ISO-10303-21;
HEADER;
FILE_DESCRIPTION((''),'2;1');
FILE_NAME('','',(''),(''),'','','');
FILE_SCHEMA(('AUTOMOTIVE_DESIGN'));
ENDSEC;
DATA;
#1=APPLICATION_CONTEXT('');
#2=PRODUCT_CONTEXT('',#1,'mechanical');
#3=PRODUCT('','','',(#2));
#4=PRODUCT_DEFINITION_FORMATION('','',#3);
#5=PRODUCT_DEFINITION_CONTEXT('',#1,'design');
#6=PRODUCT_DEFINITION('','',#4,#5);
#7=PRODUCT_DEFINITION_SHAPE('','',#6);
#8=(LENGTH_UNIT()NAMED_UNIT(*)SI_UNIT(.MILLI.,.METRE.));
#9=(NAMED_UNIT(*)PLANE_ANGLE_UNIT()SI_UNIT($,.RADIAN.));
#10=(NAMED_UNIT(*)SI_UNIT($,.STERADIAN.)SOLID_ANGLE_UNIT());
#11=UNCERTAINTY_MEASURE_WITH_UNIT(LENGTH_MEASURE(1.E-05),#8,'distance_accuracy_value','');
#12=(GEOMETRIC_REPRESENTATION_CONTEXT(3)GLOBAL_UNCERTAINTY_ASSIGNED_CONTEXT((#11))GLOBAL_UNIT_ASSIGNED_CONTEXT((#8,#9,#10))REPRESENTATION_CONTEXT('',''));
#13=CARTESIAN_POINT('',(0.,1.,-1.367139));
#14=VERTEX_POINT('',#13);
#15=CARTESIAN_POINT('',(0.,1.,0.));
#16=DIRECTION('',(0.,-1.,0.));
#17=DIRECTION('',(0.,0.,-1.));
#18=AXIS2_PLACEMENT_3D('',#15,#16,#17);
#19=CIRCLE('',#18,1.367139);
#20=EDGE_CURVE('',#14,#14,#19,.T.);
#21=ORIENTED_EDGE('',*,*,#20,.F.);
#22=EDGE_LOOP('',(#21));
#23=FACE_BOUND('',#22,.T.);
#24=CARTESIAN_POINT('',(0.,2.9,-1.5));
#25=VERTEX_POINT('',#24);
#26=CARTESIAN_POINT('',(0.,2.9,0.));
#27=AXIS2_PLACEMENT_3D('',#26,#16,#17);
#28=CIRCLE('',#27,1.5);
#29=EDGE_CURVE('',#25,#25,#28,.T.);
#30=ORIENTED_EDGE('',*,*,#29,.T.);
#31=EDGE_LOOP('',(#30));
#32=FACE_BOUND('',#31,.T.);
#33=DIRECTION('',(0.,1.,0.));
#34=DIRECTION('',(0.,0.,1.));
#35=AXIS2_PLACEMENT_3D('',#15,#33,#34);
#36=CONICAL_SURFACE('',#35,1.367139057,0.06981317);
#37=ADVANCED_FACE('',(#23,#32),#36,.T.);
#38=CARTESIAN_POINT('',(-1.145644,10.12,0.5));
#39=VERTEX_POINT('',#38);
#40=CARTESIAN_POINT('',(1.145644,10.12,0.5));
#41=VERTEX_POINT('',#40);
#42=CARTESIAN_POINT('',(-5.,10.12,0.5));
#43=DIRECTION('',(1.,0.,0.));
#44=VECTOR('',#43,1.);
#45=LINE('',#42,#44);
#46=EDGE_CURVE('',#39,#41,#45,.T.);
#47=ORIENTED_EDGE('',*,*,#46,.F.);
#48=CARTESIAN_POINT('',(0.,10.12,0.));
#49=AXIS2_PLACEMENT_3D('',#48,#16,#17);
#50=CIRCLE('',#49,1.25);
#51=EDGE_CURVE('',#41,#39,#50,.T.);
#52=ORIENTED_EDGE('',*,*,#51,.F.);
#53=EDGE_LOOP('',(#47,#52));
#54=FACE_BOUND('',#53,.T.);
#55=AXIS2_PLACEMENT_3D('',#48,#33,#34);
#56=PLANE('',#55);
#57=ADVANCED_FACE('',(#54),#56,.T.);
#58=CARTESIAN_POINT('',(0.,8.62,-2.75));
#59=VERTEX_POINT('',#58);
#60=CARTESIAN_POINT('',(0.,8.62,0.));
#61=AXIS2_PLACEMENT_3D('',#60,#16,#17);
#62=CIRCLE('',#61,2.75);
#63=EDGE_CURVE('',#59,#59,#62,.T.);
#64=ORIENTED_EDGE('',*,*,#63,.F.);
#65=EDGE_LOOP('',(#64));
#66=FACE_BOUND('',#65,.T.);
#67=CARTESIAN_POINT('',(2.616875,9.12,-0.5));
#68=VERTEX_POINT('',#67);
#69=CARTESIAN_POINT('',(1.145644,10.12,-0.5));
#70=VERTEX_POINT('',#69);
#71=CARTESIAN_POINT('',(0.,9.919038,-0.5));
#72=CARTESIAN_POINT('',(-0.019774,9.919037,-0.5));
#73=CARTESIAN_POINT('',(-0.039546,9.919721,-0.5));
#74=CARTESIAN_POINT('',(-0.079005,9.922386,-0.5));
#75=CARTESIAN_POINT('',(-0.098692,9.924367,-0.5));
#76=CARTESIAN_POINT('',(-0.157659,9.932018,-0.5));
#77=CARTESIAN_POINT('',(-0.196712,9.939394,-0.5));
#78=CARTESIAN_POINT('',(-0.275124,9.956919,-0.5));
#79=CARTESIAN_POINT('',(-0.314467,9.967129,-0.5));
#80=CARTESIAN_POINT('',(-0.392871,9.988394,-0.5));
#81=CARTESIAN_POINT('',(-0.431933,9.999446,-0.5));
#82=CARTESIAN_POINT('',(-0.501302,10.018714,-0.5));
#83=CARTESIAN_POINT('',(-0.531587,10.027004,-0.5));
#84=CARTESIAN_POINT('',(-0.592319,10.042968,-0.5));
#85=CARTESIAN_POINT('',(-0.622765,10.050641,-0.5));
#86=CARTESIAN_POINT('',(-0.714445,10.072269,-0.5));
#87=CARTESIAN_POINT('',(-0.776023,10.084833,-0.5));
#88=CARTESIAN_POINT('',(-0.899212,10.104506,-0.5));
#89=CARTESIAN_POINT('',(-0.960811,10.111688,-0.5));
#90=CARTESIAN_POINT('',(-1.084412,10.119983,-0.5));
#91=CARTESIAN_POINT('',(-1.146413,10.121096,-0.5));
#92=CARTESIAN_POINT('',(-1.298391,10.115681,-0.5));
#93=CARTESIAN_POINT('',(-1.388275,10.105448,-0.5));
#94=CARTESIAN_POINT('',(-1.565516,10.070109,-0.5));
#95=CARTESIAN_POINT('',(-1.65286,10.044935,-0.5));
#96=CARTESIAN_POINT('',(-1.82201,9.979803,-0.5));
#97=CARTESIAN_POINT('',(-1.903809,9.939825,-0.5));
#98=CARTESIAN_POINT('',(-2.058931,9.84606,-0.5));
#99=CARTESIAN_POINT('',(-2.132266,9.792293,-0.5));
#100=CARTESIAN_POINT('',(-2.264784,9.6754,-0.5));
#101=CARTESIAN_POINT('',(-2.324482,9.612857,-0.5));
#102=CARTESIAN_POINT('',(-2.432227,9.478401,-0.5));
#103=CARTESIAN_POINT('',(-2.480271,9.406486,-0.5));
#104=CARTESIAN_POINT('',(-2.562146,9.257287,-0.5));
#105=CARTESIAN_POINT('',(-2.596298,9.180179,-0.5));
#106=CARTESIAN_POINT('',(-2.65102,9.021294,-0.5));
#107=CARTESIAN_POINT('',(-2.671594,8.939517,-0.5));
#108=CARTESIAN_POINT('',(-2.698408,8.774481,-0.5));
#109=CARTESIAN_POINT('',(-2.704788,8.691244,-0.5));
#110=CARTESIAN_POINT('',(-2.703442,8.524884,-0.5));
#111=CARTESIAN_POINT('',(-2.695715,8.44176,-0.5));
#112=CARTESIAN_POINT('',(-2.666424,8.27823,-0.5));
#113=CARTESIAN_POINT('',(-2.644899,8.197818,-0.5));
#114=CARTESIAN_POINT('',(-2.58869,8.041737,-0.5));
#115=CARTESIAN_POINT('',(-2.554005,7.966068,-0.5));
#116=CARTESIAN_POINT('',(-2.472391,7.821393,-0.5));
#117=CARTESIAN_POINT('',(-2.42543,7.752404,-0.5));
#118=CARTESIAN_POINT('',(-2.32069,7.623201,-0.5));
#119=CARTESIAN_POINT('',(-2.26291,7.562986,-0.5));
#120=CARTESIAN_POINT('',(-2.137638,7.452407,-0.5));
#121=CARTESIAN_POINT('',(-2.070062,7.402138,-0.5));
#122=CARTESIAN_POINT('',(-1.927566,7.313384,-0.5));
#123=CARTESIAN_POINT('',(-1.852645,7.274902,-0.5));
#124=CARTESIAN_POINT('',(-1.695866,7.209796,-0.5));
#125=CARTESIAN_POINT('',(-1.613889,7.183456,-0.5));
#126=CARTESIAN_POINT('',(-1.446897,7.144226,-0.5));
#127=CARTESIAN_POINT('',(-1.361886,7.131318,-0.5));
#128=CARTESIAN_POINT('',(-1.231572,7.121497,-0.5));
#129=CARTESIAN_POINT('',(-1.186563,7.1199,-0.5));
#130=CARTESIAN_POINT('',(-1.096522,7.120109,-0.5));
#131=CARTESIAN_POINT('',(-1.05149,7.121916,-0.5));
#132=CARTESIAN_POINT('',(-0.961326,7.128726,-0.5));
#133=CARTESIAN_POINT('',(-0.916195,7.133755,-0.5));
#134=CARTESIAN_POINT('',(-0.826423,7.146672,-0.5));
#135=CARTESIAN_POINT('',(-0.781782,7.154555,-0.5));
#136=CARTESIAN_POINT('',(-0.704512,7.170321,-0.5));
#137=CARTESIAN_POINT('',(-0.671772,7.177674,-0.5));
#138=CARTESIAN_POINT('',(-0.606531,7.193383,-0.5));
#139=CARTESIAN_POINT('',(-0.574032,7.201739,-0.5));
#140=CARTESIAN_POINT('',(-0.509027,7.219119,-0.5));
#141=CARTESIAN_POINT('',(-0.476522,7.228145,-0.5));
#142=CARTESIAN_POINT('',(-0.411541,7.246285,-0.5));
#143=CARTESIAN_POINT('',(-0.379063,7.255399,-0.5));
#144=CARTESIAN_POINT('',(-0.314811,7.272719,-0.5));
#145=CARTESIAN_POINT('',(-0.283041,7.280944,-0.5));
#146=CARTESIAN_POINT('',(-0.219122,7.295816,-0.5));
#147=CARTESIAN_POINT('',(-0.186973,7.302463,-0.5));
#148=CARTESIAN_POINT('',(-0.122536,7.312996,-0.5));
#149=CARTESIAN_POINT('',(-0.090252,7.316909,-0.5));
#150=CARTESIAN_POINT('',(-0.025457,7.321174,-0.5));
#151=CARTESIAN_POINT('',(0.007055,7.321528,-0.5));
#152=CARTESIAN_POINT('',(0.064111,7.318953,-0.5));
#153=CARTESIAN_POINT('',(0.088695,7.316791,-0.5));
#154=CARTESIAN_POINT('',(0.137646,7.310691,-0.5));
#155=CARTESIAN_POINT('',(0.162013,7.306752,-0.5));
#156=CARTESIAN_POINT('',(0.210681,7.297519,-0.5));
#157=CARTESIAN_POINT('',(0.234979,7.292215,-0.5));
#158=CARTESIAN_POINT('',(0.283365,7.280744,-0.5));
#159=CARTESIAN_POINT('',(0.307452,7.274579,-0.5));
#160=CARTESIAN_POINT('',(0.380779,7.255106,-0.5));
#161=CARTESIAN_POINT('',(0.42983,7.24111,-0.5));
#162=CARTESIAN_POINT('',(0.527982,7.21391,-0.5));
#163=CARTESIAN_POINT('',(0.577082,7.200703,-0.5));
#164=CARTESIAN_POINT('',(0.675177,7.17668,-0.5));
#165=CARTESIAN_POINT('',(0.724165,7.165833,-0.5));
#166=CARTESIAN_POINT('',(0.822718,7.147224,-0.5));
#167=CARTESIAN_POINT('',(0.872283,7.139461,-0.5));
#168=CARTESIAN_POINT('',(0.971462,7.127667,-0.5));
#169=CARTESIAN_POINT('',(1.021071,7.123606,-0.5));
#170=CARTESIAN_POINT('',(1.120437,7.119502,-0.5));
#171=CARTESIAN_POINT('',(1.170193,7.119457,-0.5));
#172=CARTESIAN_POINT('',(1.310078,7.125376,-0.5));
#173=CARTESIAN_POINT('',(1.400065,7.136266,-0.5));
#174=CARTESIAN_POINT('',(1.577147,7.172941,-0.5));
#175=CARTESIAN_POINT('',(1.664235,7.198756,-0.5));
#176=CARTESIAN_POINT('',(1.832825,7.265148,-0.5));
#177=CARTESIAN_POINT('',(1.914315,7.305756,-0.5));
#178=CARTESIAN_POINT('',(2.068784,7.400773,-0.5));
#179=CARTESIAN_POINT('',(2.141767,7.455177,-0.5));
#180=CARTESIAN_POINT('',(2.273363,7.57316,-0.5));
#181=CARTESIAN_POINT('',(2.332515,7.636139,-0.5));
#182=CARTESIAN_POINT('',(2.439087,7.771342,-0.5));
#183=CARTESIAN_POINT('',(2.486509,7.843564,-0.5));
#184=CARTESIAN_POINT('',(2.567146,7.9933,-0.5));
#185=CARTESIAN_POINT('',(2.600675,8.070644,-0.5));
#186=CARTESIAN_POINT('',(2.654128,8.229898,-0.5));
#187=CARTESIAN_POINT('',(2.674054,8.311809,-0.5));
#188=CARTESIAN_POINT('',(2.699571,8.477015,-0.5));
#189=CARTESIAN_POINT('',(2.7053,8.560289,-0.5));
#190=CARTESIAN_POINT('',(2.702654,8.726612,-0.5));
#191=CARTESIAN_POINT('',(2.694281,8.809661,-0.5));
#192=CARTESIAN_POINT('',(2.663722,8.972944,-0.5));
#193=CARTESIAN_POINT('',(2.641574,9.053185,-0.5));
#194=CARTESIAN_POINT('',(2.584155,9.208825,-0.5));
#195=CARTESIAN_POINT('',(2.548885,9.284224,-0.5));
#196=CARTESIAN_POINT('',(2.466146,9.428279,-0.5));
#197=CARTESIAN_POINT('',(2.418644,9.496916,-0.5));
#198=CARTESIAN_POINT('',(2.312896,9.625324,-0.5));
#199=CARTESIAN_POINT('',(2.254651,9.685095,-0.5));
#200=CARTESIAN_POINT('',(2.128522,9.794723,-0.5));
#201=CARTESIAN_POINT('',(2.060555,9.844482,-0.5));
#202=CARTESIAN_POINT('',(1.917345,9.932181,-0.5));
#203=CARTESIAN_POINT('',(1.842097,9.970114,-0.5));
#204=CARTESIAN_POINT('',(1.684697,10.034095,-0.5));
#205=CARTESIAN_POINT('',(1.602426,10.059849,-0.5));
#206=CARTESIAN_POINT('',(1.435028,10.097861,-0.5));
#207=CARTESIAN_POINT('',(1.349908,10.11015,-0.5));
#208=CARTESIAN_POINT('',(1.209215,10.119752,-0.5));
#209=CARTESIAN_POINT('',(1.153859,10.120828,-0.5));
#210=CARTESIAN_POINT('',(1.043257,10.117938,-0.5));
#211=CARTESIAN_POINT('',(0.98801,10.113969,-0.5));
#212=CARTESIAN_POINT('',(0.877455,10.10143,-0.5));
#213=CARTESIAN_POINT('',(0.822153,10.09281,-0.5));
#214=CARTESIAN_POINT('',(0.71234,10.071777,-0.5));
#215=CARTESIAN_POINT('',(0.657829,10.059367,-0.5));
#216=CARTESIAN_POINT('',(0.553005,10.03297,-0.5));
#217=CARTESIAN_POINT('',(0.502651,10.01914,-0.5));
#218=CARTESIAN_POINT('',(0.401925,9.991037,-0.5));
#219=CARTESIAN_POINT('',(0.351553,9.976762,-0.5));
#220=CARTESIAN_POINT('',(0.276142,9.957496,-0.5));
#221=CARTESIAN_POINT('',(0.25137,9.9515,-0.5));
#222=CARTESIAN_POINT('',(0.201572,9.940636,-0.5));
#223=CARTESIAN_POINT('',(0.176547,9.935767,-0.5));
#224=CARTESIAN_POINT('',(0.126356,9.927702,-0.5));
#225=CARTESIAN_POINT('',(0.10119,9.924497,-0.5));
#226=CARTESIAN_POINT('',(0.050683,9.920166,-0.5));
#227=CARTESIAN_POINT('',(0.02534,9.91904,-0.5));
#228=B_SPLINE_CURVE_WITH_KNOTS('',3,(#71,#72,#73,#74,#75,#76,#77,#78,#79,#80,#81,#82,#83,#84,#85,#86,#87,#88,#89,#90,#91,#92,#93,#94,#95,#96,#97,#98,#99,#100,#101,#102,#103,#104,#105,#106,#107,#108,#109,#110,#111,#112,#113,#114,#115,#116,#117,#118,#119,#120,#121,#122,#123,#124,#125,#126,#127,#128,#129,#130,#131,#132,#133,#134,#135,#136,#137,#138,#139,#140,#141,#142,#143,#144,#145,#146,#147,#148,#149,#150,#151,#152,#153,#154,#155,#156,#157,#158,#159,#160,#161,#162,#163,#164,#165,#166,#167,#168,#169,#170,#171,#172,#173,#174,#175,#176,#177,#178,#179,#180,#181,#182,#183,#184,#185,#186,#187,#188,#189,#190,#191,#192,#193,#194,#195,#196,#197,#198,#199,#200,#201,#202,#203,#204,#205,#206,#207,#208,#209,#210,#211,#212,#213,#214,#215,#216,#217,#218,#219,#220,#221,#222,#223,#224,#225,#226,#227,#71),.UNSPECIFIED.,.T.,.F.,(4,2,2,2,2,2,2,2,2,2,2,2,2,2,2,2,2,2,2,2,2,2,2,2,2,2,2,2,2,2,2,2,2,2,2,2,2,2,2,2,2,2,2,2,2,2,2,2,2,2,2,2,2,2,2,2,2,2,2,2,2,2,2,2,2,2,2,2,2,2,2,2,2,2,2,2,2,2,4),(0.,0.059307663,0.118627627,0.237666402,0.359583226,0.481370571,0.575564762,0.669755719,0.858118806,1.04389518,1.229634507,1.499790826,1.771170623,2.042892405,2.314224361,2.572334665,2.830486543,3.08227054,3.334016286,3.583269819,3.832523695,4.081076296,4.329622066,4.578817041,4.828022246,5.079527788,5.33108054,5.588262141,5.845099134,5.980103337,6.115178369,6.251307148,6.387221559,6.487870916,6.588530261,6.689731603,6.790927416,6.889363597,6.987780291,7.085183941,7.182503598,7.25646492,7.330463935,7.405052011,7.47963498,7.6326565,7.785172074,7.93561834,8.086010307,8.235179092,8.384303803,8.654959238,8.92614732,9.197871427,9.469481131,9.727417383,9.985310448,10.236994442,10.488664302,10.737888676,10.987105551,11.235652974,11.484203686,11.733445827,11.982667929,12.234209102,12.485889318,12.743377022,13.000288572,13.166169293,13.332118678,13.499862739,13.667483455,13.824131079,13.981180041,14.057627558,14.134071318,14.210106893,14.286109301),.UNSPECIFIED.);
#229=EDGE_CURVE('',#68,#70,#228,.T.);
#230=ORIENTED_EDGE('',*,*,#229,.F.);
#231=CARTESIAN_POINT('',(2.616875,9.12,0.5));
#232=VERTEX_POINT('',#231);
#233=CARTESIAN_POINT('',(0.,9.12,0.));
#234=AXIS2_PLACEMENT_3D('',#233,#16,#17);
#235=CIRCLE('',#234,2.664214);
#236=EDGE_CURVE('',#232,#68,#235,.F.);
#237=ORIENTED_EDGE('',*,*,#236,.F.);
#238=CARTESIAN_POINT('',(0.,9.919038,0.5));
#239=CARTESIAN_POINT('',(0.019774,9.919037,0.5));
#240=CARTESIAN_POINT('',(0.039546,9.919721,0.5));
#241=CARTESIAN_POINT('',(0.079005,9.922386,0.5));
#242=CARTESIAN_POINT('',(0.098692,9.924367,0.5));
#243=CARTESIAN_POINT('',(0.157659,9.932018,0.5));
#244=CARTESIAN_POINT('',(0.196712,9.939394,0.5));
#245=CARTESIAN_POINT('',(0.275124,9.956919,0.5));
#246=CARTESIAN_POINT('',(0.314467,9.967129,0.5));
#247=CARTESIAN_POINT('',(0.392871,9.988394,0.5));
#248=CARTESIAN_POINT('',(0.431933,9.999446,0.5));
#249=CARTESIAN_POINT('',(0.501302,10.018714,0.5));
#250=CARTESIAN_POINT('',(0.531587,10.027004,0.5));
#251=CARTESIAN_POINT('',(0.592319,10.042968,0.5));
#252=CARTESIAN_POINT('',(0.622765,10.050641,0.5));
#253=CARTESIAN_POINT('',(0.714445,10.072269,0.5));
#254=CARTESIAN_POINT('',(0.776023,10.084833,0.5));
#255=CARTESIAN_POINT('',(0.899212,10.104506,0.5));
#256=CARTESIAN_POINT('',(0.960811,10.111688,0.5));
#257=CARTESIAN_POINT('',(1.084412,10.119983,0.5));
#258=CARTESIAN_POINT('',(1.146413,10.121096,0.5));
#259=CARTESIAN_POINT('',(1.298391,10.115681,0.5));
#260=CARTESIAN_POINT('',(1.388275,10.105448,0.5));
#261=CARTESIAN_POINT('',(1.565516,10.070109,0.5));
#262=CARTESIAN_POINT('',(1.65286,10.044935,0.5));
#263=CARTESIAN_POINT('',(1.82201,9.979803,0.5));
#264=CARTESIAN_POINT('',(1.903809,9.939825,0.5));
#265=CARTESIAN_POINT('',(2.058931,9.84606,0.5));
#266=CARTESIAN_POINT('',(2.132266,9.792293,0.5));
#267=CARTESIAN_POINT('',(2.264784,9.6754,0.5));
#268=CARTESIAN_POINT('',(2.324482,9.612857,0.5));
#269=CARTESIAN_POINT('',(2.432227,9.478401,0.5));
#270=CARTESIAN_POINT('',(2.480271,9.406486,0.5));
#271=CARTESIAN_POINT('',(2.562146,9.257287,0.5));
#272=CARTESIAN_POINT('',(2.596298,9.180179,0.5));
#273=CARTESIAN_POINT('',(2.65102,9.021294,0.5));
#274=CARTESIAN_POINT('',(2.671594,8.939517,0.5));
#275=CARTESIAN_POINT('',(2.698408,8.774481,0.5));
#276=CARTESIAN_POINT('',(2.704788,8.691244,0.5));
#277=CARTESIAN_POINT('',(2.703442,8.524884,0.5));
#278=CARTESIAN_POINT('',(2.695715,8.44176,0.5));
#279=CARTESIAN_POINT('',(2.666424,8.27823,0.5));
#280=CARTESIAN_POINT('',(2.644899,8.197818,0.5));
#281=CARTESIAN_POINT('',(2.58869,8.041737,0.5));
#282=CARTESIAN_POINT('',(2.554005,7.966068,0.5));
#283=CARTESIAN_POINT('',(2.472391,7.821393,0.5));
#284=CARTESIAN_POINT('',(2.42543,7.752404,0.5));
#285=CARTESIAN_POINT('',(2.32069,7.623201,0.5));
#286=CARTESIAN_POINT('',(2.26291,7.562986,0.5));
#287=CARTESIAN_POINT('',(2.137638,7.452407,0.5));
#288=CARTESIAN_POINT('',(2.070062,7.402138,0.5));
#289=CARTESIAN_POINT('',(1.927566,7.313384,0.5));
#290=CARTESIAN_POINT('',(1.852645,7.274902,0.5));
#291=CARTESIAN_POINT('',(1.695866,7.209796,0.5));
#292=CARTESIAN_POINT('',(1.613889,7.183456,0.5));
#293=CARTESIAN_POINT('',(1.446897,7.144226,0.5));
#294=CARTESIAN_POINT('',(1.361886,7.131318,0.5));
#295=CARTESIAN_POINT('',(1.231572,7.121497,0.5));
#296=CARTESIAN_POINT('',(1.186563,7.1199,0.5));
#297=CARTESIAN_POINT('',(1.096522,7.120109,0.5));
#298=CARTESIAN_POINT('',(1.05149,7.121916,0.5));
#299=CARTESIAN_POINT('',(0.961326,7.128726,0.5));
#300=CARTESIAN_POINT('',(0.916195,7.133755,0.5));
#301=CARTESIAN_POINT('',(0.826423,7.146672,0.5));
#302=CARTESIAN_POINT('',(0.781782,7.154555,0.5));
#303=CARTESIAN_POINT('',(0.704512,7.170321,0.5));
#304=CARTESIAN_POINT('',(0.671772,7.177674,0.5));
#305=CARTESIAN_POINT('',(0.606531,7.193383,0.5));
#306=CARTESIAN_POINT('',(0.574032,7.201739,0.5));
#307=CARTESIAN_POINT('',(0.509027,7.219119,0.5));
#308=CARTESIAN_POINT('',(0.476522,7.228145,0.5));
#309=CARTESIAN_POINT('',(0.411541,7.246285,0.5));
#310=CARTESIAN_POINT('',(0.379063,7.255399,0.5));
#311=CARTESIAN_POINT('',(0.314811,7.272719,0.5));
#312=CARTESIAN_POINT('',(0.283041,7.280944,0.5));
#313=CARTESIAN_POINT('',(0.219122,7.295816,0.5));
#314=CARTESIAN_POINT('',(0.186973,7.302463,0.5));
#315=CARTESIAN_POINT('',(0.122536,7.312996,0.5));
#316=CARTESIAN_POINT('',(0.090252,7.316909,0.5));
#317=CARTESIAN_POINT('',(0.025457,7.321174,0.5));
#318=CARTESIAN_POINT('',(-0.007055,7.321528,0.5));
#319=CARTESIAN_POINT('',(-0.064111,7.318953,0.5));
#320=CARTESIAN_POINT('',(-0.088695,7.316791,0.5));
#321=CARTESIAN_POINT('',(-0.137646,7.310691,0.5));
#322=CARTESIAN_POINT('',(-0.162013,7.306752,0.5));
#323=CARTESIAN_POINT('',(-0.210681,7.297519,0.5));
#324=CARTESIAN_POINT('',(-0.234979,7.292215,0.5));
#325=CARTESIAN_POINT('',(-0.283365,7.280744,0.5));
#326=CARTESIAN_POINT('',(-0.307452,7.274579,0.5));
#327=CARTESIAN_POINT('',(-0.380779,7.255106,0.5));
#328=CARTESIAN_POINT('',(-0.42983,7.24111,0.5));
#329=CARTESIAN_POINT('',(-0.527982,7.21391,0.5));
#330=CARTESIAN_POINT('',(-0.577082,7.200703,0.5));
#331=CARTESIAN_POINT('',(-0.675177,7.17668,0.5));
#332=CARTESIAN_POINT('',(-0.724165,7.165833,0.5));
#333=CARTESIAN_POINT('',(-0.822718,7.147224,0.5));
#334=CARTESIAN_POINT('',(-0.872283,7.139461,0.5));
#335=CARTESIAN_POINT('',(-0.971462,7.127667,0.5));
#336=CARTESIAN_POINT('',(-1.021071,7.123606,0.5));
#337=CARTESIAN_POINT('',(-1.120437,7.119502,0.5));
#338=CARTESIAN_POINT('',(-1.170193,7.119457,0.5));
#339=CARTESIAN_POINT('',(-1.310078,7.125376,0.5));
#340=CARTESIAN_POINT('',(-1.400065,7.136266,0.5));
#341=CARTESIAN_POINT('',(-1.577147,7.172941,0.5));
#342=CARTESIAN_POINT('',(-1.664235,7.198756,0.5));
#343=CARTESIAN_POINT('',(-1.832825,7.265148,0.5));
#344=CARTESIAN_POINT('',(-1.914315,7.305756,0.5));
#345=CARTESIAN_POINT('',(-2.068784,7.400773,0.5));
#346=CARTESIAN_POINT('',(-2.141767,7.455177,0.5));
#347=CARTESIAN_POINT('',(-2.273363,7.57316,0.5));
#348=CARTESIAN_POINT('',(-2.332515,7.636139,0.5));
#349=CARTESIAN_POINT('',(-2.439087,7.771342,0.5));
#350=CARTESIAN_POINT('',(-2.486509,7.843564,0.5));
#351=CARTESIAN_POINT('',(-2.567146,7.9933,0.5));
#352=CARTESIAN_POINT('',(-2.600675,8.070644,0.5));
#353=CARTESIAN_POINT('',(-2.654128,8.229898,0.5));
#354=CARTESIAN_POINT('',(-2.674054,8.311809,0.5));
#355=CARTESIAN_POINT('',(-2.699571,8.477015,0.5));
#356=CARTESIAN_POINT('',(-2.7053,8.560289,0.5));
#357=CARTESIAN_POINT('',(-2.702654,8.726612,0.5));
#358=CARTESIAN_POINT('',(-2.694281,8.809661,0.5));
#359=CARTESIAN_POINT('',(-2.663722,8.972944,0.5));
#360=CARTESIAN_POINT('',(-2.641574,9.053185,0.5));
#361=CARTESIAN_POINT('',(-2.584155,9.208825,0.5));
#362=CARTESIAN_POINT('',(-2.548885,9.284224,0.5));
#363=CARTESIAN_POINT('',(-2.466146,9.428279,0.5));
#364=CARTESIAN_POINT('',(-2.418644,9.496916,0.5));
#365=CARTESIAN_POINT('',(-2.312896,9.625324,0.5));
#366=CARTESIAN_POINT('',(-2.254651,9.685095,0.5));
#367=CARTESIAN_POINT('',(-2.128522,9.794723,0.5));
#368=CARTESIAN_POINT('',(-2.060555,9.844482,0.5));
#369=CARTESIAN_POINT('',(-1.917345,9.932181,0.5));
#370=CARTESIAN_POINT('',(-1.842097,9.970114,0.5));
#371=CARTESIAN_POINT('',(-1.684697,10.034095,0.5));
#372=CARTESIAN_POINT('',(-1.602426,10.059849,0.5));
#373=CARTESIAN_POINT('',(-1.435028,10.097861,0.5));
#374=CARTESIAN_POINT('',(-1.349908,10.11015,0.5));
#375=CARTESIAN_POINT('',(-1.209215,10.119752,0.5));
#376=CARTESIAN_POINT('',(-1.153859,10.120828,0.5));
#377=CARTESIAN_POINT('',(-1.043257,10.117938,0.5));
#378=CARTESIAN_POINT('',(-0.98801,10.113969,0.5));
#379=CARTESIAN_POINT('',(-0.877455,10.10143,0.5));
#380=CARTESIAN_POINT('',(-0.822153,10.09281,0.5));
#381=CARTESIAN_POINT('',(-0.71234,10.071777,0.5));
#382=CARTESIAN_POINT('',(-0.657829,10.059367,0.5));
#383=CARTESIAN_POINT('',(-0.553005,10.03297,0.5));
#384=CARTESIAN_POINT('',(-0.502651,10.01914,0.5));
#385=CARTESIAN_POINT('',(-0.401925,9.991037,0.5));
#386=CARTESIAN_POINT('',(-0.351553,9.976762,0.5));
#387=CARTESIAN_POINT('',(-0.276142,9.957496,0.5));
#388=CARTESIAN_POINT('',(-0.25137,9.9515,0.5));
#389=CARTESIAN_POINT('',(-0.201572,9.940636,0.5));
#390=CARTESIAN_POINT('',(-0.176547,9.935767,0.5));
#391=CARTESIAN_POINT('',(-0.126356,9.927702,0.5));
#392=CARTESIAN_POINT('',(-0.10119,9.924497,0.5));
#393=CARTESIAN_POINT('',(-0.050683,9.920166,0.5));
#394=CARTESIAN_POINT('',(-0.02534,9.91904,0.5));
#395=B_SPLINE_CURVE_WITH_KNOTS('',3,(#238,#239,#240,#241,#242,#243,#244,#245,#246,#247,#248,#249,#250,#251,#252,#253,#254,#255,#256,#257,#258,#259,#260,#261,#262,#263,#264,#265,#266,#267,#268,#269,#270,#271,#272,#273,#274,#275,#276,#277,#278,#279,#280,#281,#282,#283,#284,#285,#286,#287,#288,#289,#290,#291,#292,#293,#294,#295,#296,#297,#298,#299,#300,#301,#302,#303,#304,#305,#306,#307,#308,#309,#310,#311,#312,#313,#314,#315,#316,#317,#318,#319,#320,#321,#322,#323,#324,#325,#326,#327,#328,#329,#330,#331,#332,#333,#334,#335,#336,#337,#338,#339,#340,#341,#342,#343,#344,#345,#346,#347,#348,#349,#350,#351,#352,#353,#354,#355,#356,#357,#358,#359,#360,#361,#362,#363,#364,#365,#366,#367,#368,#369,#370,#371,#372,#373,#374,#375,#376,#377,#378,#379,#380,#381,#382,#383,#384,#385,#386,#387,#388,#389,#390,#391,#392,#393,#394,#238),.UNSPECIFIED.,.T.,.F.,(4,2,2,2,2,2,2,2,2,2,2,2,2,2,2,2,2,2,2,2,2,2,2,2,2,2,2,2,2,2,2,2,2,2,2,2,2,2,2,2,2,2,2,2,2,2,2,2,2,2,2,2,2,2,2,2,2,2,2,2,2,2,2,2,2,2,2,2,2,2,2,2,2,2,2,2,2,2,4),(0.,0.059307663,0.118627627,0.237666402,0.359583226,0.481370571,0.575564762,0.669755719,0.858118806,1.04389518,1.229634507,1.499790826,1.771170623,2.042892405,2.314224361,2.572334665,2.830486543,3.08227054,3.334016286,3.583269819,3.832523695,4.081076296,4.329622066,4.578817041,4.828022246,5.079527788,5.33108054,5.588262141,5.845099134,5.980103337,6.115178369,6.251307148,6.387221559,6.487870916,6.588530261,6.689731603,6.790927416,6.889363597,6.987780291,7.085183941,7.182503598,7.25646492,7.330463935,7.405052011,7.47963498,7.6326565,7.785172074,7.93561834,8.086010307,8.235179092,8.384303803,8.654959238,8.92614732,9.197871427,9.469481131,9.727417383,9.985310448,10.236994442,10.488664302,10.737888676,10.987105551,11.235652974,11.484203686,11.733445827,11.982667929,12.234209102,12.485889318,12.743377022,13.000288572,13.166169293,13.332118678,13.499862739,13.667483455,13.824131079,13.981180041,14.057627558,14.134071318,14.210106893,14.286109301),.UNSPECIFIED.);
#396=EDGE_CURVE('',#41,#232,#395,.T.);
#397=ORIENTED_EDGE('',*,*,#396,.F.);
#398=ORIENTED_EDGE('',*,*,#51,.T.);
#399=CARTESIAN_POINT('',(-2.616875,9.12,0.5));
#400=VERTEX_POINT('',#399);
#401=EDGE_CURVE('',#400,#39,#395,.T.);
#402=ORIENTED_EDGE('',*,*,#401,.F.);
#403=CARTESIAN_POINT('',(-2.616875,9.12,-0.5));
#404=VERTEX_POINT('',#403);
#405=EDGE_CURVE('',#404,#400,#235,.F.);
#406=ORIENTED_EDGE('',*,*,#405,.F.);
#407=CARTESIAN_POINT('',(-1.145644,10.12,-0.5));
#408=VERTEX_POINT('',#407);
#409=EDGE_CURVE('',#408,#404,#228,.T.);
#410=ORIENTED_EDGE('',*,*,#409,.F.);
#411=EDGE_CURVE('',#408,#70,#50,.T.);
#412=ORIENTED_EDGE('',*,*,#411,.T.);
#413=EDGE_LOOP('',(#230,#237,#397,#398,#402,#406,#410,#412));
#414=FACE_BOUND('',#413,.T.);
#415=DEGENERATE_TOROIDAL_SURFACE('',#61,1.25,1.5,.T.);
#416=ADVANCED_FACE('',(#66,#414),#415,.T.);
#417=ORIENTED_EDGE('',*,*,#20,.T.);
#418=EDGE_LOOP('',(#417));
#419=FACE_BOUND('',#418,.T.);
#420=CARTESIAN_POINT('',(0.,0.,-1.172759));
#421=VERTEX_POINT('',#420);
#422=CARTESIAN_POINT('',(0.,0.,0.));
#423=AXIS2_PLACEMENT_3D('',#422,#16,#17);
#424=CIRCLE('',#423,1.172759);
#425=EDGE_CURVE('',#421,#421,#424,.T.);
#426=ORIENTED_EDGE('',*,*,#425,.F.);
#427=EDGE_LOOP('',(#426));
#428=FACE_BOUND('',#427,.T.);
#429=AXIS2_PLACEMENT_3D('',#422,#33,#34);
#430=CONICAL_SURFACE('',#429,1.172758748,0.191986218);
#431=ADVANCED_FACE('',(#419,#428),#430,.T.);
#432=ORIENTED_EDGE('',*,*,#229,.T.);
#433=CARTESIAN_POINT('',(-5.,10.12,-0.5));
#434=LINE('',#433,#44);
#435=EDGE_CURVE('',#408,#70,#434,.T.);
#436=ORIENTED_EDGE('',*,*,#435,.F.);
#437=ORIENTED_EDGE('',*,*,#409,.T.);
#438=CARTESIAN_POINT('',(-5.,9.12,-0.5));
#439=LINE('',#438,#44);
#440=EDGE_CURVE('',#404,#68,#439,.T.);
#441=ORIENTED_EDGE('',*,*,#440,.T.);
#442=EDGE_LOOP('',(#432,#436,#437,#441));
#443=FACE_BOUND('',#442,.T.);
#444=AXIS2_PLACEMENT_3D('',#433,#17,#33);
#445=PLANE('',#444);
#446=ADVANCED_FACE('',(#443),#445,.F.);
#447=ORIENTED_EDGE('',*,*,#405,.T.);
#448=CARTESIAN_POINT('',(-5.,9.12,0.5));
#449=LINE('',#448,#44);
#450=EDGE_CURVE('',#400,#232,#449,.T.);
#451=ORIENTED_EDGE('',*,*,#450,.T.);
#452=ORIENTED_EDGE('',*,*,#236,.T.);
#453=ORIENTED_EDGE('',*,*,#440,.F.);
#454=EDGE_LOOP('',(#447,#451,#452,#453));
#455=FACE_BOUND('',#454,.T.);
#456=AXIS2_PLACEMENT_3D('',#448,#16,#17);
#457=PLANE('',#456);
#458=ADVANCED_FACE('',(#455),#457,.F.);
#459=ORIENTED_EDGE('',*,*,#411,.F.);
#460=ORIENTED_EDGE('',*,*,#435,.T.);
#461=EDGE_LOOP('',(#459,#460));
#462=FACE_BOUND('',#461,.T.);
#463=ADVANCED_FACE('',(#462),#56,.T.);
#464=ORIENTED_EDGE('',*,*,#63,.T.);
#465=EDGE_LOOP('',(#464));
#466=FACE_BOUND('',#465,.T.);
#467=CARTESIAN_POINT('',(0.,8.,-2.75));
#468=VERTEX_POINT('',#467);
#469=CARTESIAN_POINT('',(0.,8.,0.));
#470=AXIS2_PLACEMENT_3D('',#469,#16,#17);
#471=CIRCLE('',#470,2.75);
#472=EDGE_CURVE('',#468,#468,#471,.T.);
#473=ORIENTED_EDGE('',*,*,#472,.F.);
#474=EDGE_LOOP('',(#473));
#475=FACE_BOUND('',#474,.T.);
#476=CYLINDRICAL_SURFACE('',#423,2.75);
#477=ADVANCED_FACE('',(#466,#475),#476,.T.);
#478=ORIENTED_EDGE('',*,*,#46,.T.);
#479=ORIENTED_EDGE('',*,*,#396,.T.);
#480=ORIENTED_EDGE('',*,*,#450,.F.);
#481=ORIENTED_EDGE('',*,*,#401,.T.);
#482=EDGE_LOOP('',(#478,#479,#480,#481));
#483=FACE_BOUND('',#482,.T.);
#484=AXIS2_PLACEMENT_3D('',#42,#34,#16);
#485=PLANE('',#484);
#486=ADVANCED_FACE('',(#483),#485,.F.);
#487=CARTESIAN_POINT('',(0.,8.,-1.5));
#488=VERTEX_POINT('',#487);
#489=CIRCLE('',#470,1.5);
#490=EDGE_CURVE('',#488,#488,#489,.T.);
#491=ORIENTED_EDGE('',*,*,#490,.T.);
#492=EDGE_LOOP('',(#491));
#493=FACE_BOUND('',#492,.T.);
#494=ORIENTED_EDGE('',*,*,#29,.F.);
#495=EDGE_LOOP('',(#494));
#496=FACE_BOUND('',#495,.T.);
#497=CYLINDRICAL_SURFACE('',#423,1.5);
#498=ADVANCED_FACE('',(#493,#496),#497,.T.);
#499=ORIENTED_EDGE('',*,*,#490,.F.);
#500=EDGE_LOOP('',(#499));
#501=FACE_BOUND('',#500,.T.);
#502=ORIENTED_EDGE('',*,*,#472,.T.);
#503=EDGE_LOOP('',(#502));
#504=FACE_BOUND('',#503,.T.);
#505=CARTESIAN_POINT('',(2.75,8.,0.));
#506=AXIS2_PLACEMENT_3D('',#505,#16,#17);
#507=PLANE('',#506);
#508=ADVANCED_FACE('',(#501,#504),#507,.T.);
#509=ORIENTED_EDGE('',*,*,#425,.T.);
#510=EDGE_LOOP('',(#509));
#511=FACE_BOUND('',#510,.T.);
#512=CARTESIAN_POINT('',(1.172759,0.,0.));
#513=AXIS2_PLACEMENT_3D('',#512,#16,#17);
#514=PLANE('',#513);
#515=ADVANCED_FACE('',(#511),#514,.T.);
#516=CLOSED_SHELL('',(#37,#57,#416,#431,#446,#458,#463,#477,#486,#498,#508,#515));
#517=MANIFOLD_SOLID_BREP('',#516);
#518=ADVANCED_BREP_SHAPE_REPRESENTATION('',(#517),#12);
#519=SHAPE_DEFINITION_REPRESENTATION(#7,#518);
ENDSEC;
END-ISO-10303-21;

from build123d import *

# Parameters (mm, degrees)
SKETCH_2_W          = 1
SKETCH_2_H          = 1
CUT_EXTRUDE_1_DEPTH = 5


with BuildPart() as part:
    # Эскиз1 → Повернуть1 (revolve)
    with BuildSketch(Plane.XY, mode=Mode.PRIVATE) as revolve_1_sk:
        with BuildLine():
            Line((0, 0), (0, 10.12))
            Line((0, 10.12), (1.25, 10.12))
            ThreePointArc((1.25, 10.12), (2.310660172, 9.680660172), (2.75, 8.62))
            Line((2.75, 8.62), (2.75, 8))
            Line((2.75, 8), (1.5, 8))
            Line((1.5, 8), (1.5, 2.9))
            Line((1.5, 2.9), (1.367139057, 1))
            Line((1.367139057, 1), (1.172758748, 0))
            Line((1.172758748, 0), (0, 0))
        make_face()
    revolve(revolve_1_sk.sketch.rotate(Axis((0, 0, 0), (0, 1, 0)), 90), axis=Axis((0, 0, 0), (0, 1, 0)))

    # Эскиз2 → Вырез-Вытянуть1 (cut, symmetric)
    with BuildSketch(Plane(origin=(0, 0, 0), x_dir=(0, 0, -1), z_dir=(1, 0, 0))):
        with Locations((0, 9.62)):
            Rectangle(SKETCH_2_W, SKETCH_2_H)
    extrude(amount=CUT_EXTRUDE_1_DEPTH, both=True, mode=Mode.SUBTRACT)


solid = part.part
